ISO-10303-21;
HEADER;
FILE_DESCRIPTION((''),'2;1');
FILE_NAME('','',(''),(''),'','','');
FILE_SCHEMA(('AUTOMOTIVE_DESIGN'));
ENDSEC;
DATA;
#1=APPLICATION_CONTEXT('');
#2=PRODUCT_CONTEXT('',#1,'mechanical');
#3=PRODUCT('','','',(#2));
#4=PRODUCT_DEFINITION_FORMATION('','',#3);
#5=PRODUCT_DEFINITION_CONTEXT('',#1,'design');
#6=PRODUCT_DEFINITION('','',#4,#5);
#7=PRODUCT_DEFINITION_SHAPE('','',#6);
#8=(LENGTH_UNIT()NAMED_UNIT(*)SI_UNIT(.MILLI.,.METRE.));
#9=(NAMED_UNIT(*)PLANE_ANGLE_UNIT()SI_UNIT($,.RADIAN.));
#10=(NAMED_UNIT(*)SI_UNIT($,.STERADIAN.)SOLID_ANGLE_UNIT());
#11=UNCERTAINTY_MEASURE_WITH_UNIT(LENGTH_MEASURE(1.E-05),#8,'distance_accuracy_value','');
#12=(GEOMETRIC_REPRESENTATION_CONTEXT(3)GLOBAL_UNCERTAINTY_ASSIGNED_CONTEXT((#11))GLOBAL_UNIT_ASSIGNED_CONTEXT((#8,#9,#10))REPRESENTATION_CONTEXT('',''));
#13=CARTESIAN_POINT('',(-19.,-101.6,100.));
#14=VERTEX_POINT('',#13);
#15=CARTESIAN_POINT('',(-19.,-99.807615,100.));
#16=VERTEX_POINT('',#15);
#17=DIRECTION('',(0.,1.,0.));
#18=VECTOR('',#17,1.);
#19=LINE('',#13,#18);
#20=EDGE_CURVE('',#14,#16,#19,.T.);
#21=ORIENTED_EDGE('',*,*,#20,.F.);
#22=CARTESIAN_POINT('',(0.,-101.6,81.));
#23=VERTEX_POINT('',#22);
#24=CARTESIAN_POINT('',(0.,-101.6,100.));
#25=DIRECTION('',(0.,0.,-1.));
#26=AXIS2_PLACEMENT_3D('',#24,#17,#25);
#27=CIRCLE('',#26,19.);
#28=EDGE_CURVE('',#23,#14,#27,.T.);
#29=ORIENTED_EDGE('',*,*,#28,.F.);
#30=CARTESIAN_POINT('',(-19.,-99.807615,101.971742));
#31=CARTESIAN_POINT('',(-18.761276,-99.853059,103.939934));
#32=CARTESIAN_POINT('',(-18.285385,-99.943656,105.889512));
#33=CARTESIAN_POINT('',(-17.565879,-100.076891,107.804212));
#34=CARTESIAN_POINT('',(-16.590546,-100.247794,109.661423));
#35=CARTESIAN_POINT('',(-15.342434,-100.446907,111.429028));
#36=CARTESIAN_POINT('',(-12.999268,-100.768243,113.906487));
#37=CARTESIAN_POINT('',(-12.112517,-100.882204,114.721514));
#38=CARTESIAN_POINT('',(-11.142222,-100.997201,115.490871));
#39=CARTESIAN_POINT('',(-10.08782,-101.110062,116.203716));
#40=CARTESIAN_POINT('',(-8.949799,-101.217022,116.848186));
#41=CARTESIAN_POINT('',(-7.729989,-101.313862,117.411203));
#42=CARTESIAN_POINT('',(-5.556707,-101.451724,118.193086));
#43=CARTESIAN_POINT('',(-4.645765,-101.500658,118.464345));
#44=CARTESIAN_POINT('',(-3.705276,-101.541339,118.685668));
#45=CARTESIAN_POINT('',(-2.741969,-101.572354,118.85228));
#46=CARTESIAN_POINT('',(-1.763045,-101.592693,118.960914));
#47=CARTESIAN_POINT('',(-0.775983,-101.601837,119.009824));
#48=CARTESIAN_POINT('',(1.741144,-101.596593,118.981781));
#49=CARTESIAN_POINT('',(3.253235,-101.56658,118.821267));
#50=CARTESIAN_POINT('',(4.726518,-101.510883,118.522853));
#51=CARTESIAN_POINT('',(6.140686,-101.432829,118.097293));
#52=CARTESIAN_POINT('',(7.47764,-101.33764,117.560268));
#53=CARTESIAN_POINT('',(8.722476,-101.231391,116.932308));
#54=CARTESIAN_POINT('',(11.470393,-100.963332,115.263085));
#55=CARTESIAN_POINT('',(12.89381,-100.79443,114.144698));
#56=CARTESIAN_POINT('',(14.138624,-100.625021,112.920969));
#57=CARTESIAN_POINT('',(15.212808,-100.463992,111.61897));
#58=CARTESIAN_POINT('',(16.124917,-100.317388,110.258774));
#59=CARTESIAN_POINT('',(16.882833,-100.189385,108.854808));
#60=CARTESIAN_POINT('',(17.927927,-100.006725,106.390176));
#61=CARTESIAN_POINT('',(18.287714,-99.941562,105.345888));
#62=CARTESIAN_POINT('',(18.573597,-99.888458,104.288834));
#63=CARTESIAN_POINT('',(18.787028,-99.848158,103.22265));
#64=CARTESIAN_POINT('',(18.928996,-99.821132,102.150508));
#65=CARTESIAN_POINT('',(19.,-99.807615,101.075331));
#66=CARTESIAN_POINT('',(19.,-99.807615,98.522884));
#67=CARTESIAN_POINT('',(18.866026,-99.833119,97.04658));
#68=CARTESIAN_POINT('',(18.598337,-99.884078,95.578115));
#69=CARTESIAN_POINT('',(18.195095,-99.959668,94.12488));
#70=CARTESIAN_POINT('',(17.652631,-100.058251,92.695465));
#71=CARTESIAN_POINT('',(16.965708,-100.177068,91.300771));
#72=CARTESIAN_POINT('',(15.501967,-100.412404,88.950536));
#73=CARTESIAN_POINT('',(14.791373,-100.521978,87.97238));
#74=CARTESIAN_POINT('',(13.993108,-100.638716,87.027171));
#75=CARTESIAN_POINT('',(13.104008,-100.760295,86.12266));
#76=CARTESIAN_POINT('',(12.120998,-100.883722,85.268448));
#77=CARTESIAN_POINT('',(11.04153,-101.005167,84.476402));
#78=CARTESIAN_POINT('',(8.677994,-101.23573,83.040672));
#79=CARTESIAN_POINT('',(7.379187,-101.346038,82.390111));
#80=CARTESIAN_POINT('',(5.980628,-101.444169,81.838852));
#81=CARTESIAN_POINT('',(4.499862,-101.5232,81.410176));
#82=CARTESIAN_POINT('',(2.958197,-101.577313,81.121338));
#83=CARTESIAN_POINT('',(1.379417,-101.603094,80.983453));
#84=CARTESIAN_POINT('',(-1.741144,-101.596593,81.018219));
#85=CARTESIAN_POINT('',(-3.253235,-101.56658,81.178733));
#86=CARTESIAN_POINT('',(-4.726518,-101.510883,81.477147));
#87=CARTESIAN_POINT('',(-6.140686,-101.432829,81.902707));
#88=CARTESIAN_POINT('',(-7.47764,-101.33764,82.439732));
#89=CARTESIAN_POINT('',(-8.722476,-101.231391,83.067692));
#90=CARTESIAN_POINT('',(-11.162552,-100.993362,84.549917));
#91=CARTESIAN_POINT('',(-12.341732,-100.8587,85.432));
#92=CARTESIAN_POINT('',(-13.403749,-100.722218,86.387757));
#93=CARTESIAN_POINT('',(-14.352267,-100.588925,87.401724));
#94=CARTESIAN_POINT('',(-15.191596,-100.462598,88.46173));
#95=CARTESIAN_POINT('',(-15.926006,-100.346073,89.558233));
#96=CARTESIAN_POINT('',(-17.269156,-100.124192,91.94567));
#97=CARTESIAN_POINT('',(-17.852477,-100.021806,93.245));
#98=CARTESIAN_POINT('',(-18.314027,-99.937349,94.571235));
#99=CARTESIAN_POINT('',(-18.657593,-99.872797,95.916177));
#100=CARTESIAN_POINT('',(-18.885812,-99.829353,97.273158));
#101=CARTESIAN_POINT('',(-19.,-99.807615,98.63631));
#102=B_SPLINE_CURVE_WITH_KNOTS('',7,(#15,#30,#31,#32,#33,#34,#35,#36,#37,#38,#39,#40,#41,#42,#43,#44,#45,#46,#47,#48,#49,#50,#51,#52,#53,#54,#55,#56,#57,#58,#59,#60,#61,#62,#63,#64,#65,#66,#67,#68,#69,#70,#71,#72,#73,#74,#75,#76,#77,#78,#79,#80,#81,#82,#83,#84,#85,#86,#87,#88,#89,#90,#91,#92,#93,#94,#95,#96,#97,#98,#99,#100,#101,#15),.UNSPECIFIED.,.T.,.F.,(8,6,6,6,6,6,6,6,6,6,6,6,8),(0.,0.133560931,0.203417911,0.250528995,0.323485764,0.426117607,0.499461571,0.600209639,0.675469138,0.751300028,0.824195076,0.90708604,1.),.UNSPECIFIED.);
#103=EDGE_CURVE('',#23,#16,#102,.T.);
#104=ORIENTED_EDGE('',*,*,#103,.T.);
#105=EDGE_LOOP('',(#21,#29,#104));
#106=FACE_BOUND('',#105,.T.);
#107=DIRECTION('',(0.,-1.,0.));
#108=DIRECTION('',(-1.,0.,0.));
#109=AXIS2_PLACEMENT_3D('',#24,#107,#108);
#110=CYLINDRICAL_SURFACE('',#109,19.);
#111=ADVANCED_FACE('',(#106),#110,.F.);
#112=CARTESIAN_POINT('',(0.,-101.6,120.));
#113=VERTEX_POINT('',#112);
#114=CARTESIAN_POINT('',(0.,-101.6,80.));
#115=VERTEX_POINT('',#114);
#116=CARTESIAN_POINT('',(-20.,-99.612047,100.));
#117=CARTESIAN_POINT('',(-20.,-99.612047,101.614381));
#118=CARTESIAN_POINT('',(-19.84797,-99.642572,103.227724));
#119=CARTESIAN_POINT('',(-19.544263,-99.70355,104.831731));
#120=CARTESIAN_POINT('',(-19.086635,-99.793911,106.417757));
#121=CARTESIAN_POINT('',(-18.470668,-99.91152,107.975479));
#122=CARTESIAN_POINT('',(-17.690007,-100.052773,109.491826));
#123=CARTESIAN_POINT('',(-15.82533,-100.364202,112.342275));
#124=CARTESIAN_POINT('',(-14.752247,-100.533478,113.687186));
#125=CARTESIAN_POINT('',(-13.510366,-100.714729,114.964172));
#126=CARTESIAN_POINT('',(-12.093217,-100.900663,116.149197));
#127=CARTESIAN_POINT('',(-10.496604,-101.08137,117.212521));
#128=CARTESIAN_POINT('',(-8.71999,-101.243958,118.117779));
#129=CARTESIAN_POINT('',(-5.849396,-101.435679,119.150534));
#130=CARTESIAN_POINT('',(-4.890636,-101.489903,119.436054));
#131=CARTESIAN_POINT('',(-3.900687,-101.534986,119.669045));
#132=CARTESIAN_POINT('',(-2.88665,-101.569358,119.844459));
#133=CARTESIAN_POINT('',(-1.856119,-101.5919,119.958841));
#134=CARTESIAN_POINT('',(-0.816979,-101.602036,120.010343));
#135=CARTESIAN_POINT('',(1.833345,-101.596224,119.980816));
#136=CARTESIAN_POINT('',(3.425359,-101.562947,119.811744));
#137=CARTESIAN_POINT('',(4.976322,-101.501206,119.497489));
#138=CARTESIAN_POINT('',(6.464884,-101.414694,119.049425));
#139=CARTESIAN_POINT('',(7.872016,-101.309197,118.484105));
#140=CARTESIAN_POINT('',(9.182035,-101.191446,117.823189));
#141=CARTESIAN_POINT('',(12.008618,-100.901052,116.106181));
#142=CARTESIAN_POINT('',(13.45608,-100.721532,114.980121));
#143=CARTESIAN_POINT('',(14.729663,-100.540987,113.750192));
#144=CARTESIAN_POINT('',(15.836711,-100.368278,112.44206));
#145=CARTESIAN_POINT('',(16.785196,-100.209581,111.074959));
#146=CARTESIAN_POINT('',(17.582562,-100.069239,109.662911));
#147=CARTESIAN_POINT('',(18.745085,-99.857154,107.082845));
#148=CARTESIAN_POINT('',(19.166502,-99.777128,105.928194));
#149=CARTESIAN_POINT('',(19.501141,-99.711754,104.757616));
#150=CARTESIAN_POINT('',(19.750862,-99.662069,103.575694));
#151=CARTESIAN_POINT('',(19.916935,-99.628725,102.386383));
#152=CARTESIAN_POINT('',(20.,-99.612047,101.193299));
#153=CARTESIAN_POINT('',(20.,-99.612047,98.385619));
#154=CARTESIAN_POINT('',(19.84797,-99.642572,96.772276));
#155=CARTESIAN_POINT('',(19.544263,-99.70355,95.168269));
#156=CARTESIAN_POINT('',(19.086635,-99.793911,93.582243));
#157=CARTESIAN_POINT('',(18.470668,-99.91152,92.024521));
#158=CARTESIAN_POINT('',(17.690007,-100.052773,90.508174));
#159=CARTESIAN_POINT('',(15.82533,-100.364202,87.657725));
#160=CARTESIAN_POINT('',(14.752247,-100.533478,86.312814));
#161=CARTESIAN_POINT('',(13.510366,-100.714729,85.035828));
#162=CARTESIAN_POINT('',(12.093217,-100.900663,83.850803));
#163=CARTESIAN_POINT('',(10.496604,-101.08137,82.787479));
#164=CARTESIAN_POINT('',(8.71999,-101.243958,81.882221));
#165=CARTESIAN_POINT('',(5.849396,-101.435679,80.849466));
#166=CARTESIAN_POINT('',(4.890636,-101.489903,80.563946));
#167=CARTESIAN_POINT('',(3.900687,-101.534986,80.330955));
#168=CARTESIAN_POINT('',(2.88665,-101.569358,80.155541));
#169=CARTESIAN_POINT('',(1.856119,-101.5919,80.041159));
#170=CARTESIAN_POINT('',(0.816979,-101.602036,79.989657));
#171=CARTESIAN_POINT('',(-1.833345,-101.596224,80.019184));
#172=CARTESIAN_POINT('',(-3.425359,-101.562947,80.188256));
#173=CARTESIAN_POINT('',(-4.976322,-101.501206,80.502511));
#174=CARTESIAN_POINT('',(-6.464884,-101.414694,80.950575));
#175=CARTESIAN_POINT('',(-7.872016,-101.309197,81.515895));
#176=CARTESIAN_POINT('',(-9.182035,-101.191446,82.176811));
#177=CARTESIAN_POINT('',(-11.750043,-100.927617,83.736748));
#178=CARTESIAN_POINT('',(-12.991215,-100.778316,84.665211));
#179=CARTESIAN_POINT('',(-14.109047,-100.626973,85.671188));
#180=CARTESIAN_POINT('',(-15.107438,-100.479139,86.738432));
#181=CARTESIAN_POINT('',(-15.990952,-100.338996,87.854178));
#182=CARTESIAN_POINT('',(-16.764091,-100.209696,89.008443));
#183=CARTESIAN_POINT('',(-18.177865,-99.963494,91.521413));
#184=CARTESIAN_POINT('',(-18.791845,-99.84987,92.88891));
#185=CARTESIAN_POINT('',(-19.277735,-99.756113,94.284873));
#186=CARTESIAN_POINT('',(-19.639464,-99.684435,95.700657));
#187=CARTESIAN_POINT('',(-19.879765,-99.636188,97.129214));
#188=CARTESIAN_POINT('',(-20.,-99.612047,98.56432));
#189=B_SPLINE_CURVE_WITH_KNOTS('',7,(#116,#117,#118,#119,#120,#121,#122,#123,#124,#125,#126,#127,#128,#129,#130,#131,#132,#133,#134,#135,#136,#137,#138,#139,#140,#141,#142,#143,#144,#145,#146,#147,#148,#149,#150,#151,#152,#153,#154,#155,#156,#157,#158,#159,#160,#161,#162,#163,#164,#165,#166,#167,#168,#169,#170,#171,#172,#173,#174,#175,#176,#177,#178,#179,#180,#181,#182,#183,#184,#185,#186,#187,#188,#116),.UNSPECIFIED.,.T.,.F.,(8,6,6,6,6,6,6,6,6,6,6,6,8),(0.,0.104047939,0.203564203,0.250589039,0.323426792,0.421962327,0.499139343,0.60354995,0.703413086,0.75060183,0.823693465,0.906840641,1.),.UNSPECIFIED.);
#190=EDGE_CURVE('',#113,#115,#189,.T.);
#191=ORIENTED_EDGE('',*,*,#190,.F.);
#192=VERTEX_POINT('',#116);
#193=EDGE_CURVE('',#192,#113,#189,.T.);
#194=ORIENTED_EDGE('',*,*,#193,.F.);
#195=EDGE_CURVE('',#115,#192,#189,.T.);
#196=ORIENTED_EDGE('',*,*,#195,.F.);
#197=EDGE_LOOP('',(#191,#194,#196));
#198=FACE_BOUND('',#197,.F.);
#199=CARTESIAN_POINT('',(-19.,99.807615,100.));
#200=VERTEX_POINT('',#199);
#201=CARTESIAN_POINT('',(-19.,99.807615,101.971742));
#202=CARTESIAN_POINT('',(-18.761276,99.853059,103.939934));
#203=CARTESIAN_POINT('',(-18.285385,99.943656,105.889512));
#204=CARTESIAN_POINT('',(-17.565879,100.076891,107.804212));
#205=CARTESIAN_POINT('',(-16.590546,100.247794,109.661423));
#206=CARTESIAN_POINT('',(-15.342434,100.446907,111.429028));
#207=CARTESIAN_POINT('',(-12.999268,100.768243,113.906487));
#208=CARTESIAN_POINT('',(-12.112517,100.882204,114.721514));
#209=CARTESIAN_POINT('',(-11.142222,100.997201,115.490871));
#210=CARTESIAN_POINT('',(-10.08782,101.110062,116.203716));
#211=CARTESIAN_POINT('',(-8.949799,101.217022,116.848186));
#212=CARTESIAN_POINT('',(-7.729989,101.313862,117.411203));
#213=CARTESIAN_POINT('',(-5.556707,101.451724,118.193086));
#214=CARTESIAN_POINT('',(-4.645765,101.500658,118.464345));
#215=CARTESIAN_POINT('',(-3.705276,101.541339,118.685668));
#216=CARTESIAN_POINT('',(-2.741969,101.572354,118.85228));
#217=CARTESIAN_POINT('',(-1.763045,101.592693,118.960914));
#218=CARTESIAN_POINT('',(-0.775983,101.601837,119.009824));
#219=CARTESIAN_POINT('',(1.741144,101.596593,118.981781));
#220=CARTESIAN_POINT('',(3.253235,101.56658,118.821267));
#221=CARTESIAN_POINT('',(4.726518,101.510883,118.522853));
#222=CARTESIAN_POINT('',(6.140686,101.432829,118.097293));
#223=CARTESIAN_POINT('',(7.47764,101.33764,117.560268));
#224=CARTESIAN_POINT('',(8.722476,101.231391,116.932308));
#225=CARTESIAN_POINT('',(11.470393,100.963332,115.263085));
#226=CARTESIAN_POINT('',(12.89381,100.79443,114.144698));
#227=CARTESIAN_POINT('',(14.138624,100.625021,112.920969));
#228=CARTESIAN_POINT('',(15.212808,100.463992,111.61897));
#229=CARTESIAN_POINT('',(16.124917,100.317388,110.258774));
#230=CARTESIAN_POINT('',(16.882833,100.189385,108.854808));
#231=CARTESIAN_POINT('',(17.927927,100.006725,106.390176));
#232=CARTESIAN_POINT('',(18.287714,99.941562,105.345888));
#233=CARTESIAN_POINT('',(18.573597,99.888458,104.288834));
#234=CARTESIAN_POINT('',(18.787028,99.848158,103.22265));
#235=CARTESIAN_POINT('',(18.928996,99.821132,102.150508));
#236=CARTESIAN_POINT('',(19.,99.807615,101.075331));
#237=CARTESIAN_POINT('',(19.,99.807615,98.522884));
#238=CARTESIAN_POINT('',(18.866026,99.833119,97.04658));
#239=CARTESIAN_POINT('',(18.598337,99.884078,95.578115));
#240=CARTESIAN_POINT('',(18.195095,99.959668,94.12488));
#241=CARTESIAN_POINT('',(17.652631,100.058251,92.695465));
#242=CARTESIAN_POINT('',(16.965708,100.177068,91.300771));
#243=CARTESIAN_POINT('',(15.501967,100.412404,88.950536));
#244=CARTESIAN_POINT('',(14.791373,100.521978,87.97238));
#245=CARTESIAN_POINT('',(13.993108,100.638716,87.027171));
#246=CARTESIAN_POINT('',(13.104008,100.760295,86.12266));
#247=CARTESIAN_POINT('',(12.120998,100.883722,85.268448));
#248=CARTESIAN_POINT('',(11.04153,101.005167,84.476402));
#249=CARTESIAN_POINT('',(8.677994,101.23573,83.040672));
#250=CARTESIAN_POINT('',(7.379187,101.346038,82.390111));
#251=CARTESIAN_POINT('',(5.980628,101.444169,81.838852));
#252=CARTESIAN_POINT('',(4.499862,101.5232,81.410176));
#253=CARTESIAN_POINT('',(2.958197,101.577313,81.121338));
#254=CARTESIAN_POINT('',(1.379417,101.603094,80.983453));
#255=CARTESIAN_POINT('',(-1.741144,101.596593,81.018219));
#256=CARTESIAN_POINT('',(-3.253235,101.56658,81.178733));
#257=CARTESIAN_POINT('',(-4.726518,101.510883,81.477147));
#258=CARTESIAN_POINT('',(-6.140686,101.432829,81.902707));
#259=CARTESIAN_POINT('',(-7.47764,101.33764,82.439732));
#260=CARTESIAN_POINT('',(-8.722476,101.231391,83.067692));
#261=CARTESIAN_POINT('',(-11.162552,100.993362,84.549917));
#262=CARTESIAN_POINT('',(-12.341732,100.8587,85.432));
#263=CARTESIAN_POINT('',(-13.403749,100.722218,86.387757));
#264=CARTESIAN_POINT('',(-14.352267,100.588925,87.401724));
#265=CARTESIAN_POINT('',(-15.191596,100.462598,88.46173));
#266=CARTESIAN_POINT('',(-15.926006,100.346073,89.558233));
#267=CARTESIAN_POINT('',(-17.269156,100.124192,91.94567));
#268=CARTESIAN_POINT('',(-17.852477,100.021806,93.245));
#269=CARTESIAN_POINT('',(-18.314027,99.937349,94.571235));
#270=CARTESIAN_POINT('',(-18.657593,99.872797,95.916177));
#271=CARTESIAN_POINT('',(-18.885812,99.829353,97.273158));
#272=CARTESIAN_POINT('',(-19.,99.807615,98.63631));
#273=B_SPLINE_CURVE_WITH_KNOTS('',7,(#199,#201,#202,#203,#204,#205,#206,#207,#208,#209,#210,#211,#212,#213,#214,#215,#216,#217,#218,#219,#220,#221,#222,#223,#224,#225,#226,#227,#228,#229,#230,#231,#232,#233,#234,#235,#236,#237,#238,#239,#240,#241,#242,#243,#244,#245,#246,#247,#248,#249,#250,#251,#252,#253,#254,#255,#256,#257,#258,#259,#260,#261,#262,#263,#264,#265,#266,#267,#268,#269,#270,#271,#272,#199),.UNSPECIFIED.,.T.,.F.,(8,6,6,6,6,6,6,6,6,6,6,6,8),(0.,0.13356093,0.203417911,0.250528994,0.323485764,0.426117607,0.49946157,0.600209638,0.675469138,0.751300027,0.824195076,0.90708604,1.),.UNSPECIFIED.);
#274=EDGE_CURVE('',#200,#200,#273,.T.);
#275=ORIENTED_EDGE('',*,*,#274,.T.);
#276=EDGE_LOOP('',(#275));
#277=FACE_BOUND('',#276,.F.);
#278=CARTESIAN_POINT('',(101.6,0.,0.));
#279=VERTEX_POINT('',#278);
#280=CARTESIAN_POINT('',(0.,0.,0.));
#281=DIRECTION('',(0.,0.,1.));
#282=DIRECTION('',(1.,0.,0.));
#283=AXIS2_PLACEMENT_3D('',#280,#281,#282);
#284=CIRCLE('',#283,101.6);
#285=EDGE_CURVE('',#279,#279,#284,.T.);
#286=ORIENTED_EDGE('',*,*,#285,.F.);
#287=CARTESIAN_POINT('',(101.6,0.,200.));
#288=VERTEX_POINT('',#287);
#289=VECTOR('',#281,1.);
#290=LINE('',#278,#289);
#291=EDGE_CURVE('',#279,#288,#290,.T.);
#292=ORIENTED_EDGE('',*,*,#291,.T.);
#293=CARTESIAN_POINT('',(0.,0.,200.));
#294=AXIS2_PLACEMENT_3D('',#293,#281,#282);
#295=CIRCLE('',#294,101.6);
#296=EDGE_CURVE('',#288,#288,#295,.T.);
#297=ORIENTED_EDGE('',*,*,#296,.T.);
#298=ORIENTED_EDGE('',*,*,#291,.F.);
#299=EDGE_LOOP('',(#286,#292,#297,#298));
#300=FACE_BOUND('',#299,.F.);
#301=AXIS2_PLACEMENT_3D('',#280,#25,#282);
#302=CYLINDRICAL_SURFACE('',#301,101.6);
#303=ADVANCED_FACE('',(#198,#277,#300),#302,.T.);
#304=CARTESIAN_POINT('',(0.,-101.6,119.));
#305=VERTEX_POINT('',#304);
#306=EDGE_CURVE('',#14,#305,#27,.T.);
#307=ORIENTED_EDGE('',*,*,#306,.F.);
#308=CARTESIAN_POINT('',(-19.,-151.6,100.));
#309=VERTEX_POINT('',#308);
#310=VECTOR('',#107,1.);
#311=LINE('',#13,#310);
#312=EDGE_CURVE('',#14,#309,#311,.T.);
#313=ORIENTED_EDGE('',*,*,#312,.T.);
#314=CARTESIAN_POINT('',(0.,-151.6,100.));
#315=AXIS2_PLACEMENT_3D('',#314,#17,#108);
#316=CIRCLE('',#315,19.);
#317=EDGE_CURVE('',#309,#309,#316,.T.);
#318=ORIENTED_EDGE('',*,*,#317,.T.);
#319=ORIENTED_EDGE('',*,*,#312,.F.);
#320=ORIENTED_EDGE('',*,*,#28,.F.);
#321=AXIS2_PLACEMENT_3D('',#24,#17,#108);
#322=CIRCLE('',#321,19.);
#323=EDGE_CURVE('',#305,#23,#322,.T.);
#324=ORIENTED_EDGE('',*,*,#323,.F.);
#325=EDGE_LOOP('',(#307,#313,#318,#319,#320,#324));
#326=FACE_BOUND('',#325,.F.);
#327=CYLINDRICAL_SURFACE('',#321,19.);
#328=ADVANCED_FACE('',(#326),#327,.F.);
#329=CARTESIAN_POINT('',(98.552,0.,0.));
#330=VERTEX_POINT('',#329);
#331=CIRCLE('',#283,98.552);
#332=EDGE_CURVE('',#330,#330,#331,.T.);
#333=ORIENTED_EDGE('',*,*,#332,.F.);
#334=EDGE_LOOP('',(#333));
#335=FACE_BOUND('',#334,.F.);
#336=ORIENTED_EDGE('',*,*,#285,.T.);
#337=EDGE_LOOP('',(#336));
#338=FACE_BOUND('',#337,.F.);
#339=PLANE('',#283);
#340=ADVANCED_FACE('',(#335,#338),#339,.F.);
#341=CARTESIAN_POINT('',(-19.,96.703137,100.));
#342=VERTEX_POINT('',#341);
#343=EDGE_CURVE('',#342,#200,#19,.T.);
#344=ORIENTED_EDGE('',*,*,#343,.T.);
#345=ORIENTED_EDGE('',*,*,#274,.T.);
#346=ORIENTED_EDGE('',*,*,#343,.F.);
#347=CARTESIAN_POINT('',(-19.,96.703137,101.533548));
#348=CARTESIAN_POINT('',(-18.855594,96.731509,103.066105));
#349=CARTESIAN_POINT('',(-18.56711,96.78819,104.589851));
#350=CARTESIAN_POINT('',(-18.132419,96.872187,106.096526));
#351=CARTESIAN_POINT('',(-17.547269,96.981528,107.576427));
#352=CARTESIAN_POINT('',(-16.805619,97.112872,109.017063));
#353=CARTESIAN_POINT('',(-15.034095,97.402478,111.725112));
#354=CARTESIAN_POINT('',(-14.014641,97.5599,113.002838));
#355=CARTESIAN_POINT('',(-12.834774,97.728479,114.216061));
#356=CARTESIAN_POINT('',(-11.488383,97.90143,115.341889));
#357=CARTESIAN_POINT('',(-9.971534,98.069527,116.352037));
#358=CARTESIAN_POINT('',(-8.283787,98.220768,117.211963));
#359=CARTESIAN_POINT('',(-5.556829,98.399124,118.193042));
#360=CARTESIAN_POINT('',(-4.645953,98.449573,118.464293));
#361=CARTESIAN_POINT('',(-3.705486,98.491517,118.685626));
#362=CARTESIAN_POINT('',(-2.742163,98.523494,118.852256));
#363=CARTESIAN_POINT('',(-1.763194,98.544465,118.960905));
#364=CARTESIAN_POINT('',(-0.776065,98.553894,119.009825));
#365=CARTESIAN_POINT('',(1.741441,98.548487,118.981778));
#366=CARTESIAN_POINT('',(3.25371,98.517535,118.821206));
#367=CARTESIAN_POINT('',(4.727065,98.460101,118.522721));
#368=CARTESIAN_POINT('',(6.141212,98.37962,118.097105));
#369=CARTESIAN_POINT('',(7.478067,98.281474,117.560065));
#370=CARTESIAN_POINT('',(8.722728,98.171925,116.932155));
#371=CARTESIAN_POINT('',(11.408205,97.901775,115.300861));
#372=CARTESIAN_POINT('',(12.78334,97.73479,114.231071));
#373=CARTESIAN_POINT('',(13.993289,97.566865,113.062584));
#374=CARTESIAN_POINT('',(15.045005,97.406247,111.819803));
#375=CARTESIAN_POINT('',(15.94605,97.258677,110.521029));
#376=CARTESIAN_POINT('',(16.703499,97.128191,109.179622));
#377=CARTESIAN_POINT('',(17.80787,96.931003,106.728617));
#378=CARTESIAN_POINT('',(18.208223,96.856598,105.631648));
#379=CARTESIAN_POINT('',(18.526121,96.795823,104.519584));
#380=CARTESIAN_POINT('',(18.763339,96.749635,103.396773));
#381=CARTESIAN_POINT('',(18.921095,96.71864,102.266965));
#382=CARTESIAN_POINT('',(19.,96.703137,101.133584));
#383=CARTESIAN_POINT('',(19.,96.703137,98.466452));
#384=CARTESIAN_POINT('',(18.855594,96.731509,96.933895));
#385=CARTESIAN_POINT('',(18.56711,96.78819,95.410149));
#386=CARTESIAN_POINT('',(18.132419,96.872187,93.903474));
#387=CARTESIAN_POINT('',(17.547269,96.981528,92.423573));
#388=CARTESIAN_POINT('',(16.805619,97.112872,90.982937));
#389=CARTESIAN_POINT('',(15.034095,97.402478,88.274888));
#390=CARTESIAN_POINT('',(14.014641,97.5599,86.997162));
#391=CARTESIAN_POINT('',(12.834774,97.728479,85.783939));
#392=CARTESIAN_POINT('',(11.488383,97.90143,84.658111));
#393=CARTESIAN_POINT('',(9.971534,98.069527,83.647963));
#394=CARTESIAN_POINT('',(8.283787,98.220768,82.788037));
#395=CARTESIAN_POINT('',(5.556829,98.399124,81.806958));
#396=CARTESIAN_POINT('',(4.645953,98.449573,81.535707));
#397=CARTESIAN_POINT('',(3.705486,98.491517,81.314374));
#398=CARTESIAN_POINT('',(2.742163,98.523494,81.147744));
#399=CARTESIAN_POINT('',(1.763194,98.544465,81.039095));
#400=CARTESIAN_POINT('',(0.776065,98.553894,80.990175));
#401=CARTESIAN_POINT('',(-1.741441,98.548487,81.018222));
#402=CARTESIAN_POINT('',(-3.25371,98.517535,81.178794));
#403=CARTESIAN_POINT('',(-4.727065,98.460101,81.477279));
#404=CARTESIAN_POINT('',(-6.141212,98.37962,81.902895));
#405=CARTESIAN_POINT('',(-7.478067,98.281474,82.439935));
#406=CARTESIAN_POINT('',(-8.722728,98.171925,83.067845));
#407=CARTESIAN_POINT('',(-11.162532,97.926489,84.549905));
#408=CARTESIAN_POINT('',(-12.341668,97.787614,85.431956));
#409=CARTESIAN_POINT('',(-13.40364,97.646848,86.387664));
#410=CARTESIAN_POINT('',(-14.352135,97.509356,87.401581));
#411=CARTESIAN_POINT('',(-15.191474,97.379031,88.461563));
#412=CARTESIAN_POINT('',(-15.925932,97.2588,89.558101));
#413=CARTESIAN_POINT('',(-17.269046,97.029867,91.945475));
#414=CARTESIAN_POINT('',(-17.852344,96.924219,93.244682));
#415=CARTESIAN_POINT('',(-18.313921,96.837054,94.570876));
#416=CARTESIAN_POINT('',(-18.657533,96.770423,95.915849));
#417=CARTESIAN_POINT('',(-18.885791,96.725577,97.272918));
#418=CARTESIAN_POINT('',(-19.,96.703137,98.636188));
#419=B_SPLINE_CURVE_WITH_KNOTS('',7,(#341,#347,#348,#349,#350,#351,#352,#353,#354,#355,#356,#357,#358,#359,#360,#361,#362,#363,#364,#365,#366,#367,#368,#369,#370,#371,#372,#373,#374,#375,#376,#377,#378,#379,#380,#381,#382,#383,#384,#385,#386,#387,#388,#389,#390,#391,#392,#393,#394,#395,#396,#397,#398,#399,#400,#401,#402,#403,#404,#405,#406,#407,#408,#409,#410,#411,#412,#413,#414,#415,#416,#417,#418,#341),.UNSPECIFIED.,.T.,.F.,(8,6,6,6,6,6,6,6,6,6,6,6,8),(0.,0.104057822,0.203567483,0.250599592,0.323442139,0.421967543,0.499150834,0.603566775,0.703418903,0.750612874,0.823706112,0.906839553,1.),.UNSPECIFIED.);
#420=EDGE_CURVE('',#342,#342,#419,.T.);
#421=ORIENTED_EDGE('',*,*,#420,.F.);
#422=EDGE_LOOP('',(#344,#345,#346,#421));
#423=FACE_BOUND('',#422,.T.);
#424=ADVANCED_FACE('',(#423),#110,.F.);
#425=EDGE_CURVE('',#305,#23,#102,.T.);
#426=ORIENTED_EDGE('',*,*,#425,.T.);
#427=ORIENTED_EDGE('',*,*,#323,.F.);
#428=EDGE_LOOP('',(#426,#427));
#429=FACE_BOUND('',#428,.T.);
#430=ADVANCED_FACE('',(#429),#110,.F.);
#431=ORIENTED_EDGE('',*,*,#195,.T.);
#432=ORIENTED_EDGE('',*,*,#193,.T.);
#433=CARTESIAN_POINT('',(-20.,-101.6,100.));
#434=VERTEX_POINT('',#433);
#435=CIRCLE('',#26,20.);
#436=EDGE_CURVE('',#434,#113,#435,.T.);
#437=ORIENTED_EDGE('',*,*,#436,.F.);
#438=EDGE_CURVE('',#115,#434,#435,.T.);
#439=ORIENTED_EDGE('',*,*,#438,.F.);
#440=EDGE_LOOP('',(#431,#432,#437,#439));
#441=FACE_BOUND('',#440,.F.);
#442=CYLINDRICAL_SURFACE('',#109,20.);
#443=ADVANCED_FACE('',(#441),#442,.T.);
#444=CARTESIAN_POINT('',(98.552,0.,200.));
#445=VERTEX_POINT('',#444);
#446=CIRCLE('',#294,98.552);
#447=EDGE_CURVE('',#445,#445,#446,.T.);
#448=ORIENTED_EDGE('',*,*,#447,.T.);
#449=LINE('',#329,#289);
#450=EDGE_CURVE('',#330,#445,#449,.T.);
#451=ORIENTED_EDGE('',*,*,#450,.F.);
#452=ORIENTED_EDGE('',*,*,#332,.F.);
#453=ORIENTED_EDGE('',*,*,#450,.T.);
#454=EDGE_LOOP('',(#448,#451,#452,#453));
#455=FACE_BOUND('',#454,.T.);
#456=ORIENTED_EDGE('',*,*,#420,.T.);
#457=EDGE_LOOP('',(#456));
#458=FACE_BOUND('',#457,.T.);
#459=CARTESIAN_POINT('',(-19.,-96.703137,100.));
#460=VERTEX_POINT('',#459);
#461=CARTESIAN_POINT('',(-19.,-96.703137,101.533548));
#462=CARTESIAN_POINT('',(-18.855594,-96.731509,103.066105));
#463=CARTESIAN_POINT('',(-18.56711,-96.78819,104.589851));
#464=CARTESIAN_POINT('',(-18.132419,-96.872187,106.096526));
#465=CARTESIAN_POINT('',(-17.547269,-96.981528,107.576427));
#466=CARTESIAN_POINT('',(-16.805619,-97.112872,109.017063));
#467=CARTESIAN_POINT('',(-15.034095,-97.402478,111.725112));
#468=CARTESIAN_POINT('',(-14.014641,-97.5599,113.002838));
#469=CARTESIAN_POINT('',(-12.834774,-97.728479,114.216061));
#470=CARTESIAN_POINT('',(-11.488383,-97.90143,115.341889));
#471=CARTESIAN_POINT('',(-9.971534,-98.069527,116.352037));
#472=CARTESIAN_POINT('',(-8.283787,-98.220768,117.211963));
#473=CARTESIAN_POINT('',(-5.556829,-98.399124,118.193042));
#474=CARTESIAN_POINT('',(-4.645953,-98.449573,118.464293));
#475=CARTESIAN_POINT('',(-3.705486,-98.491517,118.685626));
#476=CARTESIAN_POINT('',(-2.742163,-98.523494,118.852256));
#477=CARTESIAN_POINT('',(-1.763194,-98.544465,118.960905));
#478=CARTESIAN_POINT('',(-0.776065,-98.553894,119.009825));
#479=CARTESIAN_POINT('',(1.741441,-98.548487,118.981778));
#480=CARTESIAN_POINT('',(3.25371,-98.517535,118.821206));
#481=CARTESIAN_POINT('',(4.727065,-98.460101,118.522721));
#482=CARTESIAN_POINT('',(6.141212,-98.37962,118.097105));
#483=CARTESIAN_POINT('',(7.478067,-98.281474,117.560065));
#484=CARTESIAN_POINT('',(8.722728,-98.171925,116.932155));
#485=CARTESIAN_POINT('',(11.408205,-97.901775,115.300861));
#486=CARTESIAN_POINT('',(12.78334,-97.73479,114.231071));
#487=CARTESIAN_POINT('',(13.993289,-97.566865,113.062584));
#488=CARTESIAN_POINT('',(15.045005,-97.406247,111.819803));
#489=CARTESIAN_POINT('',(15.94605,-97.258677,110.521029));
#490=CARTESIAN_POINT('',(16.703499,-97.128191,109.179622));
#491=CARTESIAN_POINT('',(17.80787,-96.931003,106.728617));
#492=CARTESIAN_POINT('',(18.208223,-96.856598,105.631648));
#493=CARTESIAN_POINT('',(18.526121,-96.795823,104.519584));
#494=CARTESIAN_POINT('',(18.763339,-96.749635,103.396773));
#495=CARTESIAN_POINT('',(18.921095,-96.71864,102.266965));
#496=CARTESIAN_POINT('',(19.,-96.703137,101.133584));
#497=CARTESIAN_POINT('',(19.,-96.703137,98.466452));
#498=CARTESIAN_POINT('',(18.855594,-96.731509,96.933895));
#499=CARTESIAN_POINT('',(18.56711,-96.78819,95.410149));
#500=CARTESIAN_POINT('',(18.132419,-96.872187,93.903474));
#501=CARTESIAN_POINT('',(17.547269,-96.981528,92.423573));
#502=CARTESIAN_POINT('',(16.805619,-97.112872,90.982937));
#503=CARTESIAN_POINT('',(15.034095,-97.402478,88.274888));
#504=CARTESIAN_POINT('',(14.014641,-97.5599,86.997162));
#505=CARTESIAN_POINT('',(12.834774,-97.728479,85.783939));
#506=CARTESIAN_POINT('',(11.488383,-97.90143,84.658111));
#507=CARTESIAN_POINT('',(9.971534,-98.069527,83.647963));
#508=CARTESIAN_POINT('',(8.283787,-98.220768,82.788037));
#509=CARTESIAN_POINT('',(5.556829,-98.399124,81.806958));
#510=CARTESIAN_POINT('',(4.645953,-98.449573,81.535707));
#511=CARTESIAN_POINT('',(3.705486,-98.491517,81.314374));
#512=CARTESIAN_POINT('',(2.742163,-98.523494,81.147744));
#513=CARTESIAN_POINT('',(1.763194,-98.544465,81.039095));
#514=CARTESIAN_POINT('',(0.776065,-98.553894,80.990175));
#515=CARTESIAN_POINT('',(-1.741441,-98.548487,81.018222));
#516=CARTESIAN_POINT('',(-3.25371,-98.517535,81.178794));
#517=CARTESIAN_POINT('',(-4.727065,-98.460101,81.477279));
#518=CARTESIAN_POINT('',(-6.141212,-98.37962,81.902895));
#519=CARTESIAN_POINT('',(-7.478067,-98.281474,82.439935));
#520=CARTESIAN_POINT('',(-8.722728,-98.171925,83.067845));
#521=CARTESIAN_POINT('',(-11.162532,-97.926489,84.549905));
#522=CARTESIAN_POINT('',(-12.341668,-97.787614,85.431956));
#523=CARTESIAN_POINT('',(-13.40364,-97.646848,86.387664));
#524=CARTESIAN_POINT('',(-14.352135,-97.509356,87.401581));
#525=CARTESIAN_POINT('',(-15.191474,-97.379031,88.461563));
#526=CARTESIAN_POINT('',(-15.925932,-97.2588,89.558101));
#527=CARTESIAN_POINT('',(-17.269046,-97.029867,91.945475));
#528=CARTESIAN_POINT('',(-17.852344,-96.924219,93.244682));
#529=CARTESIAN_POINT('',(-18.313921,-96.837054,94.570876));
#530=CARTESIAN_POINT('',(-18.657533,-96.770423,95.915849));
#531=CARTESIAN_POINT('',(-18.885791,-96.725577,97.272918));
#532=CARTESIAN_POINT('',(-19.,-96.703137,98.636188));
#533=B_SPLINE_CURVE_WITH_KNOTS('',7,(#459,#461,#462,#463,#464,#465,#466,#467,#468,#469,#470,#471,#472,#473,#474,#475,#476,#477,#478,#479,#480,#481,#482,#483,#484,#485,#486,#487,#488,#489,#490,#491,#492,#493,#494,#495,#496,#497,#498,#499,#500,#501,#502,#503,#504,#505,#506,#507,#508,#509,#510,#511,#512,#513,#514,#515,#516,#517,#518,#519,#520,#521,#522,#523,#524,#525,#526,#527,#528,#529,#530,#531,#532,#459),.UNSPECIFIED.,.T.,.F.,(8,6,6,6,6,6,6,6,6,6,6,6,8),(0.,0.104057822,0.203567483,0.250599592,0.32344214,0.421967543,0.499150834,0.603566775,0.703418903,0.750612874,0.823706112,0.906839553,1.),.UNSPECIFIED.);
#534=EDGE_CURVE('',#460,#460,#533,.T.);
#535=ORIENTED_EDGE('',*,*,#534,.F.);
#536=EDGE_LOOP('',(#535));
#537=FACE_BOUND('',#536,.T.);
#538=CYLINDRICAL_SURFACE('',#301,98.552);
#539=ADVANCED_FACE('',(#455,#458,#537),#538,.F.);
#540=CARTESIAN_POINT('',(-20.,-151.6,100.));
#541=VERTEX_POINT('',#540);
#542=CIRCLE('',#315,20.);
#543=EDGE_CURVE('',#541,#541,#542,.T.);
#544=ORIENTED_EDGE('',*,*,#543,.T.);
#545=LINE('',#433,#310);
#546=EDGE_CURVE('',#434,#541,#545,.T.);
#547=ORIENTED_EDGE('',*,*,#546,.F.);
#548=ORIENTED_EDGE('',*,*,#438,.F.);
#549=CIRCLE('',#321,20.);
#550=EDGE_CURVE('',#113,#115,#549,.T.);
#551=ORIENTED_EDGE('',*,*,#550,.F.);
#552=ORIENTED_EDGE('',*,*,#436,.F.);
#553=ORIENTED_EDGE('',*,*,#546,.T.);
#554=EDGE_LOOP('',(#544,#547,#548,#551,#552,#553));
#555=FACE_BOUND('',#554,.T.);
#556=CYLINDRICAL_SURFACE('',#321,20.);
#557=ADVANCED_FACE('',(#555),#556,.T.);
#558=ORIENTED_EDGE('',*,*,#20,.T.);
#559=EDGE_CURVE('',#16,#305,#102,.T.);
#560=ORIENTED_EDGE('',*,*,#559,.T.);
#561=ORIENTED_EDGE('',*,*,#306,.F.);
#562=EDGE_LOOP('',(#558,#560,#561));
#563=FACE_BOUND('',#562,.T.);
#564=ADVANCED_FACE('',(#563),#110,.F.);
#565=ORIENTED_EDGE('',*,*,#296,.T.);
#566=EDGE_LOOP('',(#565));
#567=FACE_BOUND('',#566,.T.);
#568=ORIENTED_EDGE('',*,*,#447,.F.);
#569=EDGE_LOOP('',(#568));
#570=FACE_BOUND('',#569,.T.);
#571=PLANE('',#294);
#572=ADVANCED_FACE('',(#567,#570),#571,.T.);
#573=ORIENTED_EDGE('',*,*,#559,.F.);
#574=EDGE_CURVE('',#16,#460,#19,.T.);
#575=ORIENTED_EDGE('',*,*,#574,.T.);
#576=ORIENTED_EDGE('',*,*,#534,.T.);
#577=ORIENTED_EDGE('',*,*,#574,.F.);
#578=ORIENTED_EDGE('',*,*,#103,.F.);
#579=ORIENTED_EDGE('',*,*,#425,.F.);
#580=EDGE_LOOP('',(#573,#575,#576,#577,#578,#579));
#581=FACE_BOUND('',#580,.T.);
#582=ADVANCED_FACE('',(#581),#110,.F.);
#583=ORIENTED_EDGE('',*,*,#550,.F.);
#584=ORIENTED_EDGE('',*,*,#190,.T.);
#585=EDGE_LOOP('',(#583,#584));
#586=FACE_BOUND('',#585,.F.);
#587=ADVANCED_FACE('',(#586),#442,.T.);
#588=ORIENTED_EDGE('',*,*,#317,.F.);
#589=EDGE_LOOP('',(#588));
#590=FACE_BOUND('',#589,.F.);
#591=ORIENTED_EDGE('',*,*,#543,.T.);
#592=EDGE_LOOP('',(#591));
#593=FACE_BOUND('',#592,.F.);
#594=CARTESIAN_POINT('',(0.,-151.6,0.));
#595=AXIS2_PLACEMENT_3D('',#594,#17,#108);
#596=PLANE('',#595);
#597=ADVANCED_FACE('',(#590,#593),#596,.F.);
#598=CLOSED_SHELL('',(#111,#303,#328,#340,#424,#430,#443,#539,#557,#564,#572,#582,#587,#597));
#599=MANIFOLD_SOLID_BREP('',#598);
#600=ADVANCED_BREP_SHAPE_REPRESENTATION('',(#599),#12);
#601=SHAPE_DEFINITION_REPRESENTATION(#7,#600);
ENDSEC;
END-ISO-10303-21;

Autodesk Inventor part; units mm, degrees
ref_plane "YZ Plane" through (0, 0, 0) normal (1, 0, 0) x (0, 1, 0)
ref_plane "XY Plane" through (0, 0, 0) normal (0, 0, 1) x (1, 0, 0)
sketch "Sketch1" plane through (0, 0, 0) normal (0, 0, 1) x (1, 0, 0)
  circle A0 centre (0, 0) radius 98.552
  circle A1 centre (0, 0) radius 101.6
  dimension "d0" = 197.104
  dimension "d1" = 203.2
extrude "Extrusion1" add sketch "Sketch1" along normal blind 200
ref_plane "Work Plane1" through (0, 101.6, 0) normal (0, 1, 0) x (-1, 0, 0)
ref_plane "Work Plane2" through (0, -101.6, 0) normal (0, 1, 0) x (-1, 0, 0)
sketch "Sketch7" plane through (0, -101.6, 0) normal (0, 1, 0) x (-1, 0, 0)
  circle A0 centre (0, 100) radius 19
  circle A1 centre (0, 100) radius 20
  line L0 (-101.6, 0) -> (101.6, 0) projected
  point P0 (0, 0)
  point P1 (20, 100)
  dimension "d11" = 40
  dimension "d12" = 38
  dimension "d13" = 100
extrude "Extrusion3" add sketch "Sketch7" along normal up to next
sketch "Sketch9" plane through (0, -101.6, 0) normal (0, 1, 0) x (-1, 0, 0)
  circle A0 centre (0, 100) radius 19
  circle A1 centre (0, 100) radius 20
  point P0 (0, 0)
  point P1 (20, 100)
  dimension "d16" = 40
  dimension "d17" = 38
extrude "Extrusion4" add sketch "Sketch9" against normal blind 50
sketch "Sketch10" plane through (0, -101.6, 0) normal (0, 1, 0) x (-1, 0, 0)
  circle A0 centre (0, 100) radius 19
  point P0 (0, 0)
  point P1 (20, 100)
extrude "Extrusion5" cut sketch "Sketch10" along normal through all
equation "\"BendRadius\" = Thickness"
equation "\"BendReliefWidth\" = Thickness"
equation "\"BendReliefDepth\" = 0.5 * Thickness"
equation "\"CornerReliefSize\" = 4 * Thickness"
equation "\"MinimumRemnant\" = 2 * Thickness"
equation "\"TransitionRadius\" = BendRadius"
equation "\"JacobiRadiusSize\" = Thickness"
equation "\"GapSize\" = Thickness"
equation "\"Thickness\" = 3.048"
properties part number "VacuumCylinder"
